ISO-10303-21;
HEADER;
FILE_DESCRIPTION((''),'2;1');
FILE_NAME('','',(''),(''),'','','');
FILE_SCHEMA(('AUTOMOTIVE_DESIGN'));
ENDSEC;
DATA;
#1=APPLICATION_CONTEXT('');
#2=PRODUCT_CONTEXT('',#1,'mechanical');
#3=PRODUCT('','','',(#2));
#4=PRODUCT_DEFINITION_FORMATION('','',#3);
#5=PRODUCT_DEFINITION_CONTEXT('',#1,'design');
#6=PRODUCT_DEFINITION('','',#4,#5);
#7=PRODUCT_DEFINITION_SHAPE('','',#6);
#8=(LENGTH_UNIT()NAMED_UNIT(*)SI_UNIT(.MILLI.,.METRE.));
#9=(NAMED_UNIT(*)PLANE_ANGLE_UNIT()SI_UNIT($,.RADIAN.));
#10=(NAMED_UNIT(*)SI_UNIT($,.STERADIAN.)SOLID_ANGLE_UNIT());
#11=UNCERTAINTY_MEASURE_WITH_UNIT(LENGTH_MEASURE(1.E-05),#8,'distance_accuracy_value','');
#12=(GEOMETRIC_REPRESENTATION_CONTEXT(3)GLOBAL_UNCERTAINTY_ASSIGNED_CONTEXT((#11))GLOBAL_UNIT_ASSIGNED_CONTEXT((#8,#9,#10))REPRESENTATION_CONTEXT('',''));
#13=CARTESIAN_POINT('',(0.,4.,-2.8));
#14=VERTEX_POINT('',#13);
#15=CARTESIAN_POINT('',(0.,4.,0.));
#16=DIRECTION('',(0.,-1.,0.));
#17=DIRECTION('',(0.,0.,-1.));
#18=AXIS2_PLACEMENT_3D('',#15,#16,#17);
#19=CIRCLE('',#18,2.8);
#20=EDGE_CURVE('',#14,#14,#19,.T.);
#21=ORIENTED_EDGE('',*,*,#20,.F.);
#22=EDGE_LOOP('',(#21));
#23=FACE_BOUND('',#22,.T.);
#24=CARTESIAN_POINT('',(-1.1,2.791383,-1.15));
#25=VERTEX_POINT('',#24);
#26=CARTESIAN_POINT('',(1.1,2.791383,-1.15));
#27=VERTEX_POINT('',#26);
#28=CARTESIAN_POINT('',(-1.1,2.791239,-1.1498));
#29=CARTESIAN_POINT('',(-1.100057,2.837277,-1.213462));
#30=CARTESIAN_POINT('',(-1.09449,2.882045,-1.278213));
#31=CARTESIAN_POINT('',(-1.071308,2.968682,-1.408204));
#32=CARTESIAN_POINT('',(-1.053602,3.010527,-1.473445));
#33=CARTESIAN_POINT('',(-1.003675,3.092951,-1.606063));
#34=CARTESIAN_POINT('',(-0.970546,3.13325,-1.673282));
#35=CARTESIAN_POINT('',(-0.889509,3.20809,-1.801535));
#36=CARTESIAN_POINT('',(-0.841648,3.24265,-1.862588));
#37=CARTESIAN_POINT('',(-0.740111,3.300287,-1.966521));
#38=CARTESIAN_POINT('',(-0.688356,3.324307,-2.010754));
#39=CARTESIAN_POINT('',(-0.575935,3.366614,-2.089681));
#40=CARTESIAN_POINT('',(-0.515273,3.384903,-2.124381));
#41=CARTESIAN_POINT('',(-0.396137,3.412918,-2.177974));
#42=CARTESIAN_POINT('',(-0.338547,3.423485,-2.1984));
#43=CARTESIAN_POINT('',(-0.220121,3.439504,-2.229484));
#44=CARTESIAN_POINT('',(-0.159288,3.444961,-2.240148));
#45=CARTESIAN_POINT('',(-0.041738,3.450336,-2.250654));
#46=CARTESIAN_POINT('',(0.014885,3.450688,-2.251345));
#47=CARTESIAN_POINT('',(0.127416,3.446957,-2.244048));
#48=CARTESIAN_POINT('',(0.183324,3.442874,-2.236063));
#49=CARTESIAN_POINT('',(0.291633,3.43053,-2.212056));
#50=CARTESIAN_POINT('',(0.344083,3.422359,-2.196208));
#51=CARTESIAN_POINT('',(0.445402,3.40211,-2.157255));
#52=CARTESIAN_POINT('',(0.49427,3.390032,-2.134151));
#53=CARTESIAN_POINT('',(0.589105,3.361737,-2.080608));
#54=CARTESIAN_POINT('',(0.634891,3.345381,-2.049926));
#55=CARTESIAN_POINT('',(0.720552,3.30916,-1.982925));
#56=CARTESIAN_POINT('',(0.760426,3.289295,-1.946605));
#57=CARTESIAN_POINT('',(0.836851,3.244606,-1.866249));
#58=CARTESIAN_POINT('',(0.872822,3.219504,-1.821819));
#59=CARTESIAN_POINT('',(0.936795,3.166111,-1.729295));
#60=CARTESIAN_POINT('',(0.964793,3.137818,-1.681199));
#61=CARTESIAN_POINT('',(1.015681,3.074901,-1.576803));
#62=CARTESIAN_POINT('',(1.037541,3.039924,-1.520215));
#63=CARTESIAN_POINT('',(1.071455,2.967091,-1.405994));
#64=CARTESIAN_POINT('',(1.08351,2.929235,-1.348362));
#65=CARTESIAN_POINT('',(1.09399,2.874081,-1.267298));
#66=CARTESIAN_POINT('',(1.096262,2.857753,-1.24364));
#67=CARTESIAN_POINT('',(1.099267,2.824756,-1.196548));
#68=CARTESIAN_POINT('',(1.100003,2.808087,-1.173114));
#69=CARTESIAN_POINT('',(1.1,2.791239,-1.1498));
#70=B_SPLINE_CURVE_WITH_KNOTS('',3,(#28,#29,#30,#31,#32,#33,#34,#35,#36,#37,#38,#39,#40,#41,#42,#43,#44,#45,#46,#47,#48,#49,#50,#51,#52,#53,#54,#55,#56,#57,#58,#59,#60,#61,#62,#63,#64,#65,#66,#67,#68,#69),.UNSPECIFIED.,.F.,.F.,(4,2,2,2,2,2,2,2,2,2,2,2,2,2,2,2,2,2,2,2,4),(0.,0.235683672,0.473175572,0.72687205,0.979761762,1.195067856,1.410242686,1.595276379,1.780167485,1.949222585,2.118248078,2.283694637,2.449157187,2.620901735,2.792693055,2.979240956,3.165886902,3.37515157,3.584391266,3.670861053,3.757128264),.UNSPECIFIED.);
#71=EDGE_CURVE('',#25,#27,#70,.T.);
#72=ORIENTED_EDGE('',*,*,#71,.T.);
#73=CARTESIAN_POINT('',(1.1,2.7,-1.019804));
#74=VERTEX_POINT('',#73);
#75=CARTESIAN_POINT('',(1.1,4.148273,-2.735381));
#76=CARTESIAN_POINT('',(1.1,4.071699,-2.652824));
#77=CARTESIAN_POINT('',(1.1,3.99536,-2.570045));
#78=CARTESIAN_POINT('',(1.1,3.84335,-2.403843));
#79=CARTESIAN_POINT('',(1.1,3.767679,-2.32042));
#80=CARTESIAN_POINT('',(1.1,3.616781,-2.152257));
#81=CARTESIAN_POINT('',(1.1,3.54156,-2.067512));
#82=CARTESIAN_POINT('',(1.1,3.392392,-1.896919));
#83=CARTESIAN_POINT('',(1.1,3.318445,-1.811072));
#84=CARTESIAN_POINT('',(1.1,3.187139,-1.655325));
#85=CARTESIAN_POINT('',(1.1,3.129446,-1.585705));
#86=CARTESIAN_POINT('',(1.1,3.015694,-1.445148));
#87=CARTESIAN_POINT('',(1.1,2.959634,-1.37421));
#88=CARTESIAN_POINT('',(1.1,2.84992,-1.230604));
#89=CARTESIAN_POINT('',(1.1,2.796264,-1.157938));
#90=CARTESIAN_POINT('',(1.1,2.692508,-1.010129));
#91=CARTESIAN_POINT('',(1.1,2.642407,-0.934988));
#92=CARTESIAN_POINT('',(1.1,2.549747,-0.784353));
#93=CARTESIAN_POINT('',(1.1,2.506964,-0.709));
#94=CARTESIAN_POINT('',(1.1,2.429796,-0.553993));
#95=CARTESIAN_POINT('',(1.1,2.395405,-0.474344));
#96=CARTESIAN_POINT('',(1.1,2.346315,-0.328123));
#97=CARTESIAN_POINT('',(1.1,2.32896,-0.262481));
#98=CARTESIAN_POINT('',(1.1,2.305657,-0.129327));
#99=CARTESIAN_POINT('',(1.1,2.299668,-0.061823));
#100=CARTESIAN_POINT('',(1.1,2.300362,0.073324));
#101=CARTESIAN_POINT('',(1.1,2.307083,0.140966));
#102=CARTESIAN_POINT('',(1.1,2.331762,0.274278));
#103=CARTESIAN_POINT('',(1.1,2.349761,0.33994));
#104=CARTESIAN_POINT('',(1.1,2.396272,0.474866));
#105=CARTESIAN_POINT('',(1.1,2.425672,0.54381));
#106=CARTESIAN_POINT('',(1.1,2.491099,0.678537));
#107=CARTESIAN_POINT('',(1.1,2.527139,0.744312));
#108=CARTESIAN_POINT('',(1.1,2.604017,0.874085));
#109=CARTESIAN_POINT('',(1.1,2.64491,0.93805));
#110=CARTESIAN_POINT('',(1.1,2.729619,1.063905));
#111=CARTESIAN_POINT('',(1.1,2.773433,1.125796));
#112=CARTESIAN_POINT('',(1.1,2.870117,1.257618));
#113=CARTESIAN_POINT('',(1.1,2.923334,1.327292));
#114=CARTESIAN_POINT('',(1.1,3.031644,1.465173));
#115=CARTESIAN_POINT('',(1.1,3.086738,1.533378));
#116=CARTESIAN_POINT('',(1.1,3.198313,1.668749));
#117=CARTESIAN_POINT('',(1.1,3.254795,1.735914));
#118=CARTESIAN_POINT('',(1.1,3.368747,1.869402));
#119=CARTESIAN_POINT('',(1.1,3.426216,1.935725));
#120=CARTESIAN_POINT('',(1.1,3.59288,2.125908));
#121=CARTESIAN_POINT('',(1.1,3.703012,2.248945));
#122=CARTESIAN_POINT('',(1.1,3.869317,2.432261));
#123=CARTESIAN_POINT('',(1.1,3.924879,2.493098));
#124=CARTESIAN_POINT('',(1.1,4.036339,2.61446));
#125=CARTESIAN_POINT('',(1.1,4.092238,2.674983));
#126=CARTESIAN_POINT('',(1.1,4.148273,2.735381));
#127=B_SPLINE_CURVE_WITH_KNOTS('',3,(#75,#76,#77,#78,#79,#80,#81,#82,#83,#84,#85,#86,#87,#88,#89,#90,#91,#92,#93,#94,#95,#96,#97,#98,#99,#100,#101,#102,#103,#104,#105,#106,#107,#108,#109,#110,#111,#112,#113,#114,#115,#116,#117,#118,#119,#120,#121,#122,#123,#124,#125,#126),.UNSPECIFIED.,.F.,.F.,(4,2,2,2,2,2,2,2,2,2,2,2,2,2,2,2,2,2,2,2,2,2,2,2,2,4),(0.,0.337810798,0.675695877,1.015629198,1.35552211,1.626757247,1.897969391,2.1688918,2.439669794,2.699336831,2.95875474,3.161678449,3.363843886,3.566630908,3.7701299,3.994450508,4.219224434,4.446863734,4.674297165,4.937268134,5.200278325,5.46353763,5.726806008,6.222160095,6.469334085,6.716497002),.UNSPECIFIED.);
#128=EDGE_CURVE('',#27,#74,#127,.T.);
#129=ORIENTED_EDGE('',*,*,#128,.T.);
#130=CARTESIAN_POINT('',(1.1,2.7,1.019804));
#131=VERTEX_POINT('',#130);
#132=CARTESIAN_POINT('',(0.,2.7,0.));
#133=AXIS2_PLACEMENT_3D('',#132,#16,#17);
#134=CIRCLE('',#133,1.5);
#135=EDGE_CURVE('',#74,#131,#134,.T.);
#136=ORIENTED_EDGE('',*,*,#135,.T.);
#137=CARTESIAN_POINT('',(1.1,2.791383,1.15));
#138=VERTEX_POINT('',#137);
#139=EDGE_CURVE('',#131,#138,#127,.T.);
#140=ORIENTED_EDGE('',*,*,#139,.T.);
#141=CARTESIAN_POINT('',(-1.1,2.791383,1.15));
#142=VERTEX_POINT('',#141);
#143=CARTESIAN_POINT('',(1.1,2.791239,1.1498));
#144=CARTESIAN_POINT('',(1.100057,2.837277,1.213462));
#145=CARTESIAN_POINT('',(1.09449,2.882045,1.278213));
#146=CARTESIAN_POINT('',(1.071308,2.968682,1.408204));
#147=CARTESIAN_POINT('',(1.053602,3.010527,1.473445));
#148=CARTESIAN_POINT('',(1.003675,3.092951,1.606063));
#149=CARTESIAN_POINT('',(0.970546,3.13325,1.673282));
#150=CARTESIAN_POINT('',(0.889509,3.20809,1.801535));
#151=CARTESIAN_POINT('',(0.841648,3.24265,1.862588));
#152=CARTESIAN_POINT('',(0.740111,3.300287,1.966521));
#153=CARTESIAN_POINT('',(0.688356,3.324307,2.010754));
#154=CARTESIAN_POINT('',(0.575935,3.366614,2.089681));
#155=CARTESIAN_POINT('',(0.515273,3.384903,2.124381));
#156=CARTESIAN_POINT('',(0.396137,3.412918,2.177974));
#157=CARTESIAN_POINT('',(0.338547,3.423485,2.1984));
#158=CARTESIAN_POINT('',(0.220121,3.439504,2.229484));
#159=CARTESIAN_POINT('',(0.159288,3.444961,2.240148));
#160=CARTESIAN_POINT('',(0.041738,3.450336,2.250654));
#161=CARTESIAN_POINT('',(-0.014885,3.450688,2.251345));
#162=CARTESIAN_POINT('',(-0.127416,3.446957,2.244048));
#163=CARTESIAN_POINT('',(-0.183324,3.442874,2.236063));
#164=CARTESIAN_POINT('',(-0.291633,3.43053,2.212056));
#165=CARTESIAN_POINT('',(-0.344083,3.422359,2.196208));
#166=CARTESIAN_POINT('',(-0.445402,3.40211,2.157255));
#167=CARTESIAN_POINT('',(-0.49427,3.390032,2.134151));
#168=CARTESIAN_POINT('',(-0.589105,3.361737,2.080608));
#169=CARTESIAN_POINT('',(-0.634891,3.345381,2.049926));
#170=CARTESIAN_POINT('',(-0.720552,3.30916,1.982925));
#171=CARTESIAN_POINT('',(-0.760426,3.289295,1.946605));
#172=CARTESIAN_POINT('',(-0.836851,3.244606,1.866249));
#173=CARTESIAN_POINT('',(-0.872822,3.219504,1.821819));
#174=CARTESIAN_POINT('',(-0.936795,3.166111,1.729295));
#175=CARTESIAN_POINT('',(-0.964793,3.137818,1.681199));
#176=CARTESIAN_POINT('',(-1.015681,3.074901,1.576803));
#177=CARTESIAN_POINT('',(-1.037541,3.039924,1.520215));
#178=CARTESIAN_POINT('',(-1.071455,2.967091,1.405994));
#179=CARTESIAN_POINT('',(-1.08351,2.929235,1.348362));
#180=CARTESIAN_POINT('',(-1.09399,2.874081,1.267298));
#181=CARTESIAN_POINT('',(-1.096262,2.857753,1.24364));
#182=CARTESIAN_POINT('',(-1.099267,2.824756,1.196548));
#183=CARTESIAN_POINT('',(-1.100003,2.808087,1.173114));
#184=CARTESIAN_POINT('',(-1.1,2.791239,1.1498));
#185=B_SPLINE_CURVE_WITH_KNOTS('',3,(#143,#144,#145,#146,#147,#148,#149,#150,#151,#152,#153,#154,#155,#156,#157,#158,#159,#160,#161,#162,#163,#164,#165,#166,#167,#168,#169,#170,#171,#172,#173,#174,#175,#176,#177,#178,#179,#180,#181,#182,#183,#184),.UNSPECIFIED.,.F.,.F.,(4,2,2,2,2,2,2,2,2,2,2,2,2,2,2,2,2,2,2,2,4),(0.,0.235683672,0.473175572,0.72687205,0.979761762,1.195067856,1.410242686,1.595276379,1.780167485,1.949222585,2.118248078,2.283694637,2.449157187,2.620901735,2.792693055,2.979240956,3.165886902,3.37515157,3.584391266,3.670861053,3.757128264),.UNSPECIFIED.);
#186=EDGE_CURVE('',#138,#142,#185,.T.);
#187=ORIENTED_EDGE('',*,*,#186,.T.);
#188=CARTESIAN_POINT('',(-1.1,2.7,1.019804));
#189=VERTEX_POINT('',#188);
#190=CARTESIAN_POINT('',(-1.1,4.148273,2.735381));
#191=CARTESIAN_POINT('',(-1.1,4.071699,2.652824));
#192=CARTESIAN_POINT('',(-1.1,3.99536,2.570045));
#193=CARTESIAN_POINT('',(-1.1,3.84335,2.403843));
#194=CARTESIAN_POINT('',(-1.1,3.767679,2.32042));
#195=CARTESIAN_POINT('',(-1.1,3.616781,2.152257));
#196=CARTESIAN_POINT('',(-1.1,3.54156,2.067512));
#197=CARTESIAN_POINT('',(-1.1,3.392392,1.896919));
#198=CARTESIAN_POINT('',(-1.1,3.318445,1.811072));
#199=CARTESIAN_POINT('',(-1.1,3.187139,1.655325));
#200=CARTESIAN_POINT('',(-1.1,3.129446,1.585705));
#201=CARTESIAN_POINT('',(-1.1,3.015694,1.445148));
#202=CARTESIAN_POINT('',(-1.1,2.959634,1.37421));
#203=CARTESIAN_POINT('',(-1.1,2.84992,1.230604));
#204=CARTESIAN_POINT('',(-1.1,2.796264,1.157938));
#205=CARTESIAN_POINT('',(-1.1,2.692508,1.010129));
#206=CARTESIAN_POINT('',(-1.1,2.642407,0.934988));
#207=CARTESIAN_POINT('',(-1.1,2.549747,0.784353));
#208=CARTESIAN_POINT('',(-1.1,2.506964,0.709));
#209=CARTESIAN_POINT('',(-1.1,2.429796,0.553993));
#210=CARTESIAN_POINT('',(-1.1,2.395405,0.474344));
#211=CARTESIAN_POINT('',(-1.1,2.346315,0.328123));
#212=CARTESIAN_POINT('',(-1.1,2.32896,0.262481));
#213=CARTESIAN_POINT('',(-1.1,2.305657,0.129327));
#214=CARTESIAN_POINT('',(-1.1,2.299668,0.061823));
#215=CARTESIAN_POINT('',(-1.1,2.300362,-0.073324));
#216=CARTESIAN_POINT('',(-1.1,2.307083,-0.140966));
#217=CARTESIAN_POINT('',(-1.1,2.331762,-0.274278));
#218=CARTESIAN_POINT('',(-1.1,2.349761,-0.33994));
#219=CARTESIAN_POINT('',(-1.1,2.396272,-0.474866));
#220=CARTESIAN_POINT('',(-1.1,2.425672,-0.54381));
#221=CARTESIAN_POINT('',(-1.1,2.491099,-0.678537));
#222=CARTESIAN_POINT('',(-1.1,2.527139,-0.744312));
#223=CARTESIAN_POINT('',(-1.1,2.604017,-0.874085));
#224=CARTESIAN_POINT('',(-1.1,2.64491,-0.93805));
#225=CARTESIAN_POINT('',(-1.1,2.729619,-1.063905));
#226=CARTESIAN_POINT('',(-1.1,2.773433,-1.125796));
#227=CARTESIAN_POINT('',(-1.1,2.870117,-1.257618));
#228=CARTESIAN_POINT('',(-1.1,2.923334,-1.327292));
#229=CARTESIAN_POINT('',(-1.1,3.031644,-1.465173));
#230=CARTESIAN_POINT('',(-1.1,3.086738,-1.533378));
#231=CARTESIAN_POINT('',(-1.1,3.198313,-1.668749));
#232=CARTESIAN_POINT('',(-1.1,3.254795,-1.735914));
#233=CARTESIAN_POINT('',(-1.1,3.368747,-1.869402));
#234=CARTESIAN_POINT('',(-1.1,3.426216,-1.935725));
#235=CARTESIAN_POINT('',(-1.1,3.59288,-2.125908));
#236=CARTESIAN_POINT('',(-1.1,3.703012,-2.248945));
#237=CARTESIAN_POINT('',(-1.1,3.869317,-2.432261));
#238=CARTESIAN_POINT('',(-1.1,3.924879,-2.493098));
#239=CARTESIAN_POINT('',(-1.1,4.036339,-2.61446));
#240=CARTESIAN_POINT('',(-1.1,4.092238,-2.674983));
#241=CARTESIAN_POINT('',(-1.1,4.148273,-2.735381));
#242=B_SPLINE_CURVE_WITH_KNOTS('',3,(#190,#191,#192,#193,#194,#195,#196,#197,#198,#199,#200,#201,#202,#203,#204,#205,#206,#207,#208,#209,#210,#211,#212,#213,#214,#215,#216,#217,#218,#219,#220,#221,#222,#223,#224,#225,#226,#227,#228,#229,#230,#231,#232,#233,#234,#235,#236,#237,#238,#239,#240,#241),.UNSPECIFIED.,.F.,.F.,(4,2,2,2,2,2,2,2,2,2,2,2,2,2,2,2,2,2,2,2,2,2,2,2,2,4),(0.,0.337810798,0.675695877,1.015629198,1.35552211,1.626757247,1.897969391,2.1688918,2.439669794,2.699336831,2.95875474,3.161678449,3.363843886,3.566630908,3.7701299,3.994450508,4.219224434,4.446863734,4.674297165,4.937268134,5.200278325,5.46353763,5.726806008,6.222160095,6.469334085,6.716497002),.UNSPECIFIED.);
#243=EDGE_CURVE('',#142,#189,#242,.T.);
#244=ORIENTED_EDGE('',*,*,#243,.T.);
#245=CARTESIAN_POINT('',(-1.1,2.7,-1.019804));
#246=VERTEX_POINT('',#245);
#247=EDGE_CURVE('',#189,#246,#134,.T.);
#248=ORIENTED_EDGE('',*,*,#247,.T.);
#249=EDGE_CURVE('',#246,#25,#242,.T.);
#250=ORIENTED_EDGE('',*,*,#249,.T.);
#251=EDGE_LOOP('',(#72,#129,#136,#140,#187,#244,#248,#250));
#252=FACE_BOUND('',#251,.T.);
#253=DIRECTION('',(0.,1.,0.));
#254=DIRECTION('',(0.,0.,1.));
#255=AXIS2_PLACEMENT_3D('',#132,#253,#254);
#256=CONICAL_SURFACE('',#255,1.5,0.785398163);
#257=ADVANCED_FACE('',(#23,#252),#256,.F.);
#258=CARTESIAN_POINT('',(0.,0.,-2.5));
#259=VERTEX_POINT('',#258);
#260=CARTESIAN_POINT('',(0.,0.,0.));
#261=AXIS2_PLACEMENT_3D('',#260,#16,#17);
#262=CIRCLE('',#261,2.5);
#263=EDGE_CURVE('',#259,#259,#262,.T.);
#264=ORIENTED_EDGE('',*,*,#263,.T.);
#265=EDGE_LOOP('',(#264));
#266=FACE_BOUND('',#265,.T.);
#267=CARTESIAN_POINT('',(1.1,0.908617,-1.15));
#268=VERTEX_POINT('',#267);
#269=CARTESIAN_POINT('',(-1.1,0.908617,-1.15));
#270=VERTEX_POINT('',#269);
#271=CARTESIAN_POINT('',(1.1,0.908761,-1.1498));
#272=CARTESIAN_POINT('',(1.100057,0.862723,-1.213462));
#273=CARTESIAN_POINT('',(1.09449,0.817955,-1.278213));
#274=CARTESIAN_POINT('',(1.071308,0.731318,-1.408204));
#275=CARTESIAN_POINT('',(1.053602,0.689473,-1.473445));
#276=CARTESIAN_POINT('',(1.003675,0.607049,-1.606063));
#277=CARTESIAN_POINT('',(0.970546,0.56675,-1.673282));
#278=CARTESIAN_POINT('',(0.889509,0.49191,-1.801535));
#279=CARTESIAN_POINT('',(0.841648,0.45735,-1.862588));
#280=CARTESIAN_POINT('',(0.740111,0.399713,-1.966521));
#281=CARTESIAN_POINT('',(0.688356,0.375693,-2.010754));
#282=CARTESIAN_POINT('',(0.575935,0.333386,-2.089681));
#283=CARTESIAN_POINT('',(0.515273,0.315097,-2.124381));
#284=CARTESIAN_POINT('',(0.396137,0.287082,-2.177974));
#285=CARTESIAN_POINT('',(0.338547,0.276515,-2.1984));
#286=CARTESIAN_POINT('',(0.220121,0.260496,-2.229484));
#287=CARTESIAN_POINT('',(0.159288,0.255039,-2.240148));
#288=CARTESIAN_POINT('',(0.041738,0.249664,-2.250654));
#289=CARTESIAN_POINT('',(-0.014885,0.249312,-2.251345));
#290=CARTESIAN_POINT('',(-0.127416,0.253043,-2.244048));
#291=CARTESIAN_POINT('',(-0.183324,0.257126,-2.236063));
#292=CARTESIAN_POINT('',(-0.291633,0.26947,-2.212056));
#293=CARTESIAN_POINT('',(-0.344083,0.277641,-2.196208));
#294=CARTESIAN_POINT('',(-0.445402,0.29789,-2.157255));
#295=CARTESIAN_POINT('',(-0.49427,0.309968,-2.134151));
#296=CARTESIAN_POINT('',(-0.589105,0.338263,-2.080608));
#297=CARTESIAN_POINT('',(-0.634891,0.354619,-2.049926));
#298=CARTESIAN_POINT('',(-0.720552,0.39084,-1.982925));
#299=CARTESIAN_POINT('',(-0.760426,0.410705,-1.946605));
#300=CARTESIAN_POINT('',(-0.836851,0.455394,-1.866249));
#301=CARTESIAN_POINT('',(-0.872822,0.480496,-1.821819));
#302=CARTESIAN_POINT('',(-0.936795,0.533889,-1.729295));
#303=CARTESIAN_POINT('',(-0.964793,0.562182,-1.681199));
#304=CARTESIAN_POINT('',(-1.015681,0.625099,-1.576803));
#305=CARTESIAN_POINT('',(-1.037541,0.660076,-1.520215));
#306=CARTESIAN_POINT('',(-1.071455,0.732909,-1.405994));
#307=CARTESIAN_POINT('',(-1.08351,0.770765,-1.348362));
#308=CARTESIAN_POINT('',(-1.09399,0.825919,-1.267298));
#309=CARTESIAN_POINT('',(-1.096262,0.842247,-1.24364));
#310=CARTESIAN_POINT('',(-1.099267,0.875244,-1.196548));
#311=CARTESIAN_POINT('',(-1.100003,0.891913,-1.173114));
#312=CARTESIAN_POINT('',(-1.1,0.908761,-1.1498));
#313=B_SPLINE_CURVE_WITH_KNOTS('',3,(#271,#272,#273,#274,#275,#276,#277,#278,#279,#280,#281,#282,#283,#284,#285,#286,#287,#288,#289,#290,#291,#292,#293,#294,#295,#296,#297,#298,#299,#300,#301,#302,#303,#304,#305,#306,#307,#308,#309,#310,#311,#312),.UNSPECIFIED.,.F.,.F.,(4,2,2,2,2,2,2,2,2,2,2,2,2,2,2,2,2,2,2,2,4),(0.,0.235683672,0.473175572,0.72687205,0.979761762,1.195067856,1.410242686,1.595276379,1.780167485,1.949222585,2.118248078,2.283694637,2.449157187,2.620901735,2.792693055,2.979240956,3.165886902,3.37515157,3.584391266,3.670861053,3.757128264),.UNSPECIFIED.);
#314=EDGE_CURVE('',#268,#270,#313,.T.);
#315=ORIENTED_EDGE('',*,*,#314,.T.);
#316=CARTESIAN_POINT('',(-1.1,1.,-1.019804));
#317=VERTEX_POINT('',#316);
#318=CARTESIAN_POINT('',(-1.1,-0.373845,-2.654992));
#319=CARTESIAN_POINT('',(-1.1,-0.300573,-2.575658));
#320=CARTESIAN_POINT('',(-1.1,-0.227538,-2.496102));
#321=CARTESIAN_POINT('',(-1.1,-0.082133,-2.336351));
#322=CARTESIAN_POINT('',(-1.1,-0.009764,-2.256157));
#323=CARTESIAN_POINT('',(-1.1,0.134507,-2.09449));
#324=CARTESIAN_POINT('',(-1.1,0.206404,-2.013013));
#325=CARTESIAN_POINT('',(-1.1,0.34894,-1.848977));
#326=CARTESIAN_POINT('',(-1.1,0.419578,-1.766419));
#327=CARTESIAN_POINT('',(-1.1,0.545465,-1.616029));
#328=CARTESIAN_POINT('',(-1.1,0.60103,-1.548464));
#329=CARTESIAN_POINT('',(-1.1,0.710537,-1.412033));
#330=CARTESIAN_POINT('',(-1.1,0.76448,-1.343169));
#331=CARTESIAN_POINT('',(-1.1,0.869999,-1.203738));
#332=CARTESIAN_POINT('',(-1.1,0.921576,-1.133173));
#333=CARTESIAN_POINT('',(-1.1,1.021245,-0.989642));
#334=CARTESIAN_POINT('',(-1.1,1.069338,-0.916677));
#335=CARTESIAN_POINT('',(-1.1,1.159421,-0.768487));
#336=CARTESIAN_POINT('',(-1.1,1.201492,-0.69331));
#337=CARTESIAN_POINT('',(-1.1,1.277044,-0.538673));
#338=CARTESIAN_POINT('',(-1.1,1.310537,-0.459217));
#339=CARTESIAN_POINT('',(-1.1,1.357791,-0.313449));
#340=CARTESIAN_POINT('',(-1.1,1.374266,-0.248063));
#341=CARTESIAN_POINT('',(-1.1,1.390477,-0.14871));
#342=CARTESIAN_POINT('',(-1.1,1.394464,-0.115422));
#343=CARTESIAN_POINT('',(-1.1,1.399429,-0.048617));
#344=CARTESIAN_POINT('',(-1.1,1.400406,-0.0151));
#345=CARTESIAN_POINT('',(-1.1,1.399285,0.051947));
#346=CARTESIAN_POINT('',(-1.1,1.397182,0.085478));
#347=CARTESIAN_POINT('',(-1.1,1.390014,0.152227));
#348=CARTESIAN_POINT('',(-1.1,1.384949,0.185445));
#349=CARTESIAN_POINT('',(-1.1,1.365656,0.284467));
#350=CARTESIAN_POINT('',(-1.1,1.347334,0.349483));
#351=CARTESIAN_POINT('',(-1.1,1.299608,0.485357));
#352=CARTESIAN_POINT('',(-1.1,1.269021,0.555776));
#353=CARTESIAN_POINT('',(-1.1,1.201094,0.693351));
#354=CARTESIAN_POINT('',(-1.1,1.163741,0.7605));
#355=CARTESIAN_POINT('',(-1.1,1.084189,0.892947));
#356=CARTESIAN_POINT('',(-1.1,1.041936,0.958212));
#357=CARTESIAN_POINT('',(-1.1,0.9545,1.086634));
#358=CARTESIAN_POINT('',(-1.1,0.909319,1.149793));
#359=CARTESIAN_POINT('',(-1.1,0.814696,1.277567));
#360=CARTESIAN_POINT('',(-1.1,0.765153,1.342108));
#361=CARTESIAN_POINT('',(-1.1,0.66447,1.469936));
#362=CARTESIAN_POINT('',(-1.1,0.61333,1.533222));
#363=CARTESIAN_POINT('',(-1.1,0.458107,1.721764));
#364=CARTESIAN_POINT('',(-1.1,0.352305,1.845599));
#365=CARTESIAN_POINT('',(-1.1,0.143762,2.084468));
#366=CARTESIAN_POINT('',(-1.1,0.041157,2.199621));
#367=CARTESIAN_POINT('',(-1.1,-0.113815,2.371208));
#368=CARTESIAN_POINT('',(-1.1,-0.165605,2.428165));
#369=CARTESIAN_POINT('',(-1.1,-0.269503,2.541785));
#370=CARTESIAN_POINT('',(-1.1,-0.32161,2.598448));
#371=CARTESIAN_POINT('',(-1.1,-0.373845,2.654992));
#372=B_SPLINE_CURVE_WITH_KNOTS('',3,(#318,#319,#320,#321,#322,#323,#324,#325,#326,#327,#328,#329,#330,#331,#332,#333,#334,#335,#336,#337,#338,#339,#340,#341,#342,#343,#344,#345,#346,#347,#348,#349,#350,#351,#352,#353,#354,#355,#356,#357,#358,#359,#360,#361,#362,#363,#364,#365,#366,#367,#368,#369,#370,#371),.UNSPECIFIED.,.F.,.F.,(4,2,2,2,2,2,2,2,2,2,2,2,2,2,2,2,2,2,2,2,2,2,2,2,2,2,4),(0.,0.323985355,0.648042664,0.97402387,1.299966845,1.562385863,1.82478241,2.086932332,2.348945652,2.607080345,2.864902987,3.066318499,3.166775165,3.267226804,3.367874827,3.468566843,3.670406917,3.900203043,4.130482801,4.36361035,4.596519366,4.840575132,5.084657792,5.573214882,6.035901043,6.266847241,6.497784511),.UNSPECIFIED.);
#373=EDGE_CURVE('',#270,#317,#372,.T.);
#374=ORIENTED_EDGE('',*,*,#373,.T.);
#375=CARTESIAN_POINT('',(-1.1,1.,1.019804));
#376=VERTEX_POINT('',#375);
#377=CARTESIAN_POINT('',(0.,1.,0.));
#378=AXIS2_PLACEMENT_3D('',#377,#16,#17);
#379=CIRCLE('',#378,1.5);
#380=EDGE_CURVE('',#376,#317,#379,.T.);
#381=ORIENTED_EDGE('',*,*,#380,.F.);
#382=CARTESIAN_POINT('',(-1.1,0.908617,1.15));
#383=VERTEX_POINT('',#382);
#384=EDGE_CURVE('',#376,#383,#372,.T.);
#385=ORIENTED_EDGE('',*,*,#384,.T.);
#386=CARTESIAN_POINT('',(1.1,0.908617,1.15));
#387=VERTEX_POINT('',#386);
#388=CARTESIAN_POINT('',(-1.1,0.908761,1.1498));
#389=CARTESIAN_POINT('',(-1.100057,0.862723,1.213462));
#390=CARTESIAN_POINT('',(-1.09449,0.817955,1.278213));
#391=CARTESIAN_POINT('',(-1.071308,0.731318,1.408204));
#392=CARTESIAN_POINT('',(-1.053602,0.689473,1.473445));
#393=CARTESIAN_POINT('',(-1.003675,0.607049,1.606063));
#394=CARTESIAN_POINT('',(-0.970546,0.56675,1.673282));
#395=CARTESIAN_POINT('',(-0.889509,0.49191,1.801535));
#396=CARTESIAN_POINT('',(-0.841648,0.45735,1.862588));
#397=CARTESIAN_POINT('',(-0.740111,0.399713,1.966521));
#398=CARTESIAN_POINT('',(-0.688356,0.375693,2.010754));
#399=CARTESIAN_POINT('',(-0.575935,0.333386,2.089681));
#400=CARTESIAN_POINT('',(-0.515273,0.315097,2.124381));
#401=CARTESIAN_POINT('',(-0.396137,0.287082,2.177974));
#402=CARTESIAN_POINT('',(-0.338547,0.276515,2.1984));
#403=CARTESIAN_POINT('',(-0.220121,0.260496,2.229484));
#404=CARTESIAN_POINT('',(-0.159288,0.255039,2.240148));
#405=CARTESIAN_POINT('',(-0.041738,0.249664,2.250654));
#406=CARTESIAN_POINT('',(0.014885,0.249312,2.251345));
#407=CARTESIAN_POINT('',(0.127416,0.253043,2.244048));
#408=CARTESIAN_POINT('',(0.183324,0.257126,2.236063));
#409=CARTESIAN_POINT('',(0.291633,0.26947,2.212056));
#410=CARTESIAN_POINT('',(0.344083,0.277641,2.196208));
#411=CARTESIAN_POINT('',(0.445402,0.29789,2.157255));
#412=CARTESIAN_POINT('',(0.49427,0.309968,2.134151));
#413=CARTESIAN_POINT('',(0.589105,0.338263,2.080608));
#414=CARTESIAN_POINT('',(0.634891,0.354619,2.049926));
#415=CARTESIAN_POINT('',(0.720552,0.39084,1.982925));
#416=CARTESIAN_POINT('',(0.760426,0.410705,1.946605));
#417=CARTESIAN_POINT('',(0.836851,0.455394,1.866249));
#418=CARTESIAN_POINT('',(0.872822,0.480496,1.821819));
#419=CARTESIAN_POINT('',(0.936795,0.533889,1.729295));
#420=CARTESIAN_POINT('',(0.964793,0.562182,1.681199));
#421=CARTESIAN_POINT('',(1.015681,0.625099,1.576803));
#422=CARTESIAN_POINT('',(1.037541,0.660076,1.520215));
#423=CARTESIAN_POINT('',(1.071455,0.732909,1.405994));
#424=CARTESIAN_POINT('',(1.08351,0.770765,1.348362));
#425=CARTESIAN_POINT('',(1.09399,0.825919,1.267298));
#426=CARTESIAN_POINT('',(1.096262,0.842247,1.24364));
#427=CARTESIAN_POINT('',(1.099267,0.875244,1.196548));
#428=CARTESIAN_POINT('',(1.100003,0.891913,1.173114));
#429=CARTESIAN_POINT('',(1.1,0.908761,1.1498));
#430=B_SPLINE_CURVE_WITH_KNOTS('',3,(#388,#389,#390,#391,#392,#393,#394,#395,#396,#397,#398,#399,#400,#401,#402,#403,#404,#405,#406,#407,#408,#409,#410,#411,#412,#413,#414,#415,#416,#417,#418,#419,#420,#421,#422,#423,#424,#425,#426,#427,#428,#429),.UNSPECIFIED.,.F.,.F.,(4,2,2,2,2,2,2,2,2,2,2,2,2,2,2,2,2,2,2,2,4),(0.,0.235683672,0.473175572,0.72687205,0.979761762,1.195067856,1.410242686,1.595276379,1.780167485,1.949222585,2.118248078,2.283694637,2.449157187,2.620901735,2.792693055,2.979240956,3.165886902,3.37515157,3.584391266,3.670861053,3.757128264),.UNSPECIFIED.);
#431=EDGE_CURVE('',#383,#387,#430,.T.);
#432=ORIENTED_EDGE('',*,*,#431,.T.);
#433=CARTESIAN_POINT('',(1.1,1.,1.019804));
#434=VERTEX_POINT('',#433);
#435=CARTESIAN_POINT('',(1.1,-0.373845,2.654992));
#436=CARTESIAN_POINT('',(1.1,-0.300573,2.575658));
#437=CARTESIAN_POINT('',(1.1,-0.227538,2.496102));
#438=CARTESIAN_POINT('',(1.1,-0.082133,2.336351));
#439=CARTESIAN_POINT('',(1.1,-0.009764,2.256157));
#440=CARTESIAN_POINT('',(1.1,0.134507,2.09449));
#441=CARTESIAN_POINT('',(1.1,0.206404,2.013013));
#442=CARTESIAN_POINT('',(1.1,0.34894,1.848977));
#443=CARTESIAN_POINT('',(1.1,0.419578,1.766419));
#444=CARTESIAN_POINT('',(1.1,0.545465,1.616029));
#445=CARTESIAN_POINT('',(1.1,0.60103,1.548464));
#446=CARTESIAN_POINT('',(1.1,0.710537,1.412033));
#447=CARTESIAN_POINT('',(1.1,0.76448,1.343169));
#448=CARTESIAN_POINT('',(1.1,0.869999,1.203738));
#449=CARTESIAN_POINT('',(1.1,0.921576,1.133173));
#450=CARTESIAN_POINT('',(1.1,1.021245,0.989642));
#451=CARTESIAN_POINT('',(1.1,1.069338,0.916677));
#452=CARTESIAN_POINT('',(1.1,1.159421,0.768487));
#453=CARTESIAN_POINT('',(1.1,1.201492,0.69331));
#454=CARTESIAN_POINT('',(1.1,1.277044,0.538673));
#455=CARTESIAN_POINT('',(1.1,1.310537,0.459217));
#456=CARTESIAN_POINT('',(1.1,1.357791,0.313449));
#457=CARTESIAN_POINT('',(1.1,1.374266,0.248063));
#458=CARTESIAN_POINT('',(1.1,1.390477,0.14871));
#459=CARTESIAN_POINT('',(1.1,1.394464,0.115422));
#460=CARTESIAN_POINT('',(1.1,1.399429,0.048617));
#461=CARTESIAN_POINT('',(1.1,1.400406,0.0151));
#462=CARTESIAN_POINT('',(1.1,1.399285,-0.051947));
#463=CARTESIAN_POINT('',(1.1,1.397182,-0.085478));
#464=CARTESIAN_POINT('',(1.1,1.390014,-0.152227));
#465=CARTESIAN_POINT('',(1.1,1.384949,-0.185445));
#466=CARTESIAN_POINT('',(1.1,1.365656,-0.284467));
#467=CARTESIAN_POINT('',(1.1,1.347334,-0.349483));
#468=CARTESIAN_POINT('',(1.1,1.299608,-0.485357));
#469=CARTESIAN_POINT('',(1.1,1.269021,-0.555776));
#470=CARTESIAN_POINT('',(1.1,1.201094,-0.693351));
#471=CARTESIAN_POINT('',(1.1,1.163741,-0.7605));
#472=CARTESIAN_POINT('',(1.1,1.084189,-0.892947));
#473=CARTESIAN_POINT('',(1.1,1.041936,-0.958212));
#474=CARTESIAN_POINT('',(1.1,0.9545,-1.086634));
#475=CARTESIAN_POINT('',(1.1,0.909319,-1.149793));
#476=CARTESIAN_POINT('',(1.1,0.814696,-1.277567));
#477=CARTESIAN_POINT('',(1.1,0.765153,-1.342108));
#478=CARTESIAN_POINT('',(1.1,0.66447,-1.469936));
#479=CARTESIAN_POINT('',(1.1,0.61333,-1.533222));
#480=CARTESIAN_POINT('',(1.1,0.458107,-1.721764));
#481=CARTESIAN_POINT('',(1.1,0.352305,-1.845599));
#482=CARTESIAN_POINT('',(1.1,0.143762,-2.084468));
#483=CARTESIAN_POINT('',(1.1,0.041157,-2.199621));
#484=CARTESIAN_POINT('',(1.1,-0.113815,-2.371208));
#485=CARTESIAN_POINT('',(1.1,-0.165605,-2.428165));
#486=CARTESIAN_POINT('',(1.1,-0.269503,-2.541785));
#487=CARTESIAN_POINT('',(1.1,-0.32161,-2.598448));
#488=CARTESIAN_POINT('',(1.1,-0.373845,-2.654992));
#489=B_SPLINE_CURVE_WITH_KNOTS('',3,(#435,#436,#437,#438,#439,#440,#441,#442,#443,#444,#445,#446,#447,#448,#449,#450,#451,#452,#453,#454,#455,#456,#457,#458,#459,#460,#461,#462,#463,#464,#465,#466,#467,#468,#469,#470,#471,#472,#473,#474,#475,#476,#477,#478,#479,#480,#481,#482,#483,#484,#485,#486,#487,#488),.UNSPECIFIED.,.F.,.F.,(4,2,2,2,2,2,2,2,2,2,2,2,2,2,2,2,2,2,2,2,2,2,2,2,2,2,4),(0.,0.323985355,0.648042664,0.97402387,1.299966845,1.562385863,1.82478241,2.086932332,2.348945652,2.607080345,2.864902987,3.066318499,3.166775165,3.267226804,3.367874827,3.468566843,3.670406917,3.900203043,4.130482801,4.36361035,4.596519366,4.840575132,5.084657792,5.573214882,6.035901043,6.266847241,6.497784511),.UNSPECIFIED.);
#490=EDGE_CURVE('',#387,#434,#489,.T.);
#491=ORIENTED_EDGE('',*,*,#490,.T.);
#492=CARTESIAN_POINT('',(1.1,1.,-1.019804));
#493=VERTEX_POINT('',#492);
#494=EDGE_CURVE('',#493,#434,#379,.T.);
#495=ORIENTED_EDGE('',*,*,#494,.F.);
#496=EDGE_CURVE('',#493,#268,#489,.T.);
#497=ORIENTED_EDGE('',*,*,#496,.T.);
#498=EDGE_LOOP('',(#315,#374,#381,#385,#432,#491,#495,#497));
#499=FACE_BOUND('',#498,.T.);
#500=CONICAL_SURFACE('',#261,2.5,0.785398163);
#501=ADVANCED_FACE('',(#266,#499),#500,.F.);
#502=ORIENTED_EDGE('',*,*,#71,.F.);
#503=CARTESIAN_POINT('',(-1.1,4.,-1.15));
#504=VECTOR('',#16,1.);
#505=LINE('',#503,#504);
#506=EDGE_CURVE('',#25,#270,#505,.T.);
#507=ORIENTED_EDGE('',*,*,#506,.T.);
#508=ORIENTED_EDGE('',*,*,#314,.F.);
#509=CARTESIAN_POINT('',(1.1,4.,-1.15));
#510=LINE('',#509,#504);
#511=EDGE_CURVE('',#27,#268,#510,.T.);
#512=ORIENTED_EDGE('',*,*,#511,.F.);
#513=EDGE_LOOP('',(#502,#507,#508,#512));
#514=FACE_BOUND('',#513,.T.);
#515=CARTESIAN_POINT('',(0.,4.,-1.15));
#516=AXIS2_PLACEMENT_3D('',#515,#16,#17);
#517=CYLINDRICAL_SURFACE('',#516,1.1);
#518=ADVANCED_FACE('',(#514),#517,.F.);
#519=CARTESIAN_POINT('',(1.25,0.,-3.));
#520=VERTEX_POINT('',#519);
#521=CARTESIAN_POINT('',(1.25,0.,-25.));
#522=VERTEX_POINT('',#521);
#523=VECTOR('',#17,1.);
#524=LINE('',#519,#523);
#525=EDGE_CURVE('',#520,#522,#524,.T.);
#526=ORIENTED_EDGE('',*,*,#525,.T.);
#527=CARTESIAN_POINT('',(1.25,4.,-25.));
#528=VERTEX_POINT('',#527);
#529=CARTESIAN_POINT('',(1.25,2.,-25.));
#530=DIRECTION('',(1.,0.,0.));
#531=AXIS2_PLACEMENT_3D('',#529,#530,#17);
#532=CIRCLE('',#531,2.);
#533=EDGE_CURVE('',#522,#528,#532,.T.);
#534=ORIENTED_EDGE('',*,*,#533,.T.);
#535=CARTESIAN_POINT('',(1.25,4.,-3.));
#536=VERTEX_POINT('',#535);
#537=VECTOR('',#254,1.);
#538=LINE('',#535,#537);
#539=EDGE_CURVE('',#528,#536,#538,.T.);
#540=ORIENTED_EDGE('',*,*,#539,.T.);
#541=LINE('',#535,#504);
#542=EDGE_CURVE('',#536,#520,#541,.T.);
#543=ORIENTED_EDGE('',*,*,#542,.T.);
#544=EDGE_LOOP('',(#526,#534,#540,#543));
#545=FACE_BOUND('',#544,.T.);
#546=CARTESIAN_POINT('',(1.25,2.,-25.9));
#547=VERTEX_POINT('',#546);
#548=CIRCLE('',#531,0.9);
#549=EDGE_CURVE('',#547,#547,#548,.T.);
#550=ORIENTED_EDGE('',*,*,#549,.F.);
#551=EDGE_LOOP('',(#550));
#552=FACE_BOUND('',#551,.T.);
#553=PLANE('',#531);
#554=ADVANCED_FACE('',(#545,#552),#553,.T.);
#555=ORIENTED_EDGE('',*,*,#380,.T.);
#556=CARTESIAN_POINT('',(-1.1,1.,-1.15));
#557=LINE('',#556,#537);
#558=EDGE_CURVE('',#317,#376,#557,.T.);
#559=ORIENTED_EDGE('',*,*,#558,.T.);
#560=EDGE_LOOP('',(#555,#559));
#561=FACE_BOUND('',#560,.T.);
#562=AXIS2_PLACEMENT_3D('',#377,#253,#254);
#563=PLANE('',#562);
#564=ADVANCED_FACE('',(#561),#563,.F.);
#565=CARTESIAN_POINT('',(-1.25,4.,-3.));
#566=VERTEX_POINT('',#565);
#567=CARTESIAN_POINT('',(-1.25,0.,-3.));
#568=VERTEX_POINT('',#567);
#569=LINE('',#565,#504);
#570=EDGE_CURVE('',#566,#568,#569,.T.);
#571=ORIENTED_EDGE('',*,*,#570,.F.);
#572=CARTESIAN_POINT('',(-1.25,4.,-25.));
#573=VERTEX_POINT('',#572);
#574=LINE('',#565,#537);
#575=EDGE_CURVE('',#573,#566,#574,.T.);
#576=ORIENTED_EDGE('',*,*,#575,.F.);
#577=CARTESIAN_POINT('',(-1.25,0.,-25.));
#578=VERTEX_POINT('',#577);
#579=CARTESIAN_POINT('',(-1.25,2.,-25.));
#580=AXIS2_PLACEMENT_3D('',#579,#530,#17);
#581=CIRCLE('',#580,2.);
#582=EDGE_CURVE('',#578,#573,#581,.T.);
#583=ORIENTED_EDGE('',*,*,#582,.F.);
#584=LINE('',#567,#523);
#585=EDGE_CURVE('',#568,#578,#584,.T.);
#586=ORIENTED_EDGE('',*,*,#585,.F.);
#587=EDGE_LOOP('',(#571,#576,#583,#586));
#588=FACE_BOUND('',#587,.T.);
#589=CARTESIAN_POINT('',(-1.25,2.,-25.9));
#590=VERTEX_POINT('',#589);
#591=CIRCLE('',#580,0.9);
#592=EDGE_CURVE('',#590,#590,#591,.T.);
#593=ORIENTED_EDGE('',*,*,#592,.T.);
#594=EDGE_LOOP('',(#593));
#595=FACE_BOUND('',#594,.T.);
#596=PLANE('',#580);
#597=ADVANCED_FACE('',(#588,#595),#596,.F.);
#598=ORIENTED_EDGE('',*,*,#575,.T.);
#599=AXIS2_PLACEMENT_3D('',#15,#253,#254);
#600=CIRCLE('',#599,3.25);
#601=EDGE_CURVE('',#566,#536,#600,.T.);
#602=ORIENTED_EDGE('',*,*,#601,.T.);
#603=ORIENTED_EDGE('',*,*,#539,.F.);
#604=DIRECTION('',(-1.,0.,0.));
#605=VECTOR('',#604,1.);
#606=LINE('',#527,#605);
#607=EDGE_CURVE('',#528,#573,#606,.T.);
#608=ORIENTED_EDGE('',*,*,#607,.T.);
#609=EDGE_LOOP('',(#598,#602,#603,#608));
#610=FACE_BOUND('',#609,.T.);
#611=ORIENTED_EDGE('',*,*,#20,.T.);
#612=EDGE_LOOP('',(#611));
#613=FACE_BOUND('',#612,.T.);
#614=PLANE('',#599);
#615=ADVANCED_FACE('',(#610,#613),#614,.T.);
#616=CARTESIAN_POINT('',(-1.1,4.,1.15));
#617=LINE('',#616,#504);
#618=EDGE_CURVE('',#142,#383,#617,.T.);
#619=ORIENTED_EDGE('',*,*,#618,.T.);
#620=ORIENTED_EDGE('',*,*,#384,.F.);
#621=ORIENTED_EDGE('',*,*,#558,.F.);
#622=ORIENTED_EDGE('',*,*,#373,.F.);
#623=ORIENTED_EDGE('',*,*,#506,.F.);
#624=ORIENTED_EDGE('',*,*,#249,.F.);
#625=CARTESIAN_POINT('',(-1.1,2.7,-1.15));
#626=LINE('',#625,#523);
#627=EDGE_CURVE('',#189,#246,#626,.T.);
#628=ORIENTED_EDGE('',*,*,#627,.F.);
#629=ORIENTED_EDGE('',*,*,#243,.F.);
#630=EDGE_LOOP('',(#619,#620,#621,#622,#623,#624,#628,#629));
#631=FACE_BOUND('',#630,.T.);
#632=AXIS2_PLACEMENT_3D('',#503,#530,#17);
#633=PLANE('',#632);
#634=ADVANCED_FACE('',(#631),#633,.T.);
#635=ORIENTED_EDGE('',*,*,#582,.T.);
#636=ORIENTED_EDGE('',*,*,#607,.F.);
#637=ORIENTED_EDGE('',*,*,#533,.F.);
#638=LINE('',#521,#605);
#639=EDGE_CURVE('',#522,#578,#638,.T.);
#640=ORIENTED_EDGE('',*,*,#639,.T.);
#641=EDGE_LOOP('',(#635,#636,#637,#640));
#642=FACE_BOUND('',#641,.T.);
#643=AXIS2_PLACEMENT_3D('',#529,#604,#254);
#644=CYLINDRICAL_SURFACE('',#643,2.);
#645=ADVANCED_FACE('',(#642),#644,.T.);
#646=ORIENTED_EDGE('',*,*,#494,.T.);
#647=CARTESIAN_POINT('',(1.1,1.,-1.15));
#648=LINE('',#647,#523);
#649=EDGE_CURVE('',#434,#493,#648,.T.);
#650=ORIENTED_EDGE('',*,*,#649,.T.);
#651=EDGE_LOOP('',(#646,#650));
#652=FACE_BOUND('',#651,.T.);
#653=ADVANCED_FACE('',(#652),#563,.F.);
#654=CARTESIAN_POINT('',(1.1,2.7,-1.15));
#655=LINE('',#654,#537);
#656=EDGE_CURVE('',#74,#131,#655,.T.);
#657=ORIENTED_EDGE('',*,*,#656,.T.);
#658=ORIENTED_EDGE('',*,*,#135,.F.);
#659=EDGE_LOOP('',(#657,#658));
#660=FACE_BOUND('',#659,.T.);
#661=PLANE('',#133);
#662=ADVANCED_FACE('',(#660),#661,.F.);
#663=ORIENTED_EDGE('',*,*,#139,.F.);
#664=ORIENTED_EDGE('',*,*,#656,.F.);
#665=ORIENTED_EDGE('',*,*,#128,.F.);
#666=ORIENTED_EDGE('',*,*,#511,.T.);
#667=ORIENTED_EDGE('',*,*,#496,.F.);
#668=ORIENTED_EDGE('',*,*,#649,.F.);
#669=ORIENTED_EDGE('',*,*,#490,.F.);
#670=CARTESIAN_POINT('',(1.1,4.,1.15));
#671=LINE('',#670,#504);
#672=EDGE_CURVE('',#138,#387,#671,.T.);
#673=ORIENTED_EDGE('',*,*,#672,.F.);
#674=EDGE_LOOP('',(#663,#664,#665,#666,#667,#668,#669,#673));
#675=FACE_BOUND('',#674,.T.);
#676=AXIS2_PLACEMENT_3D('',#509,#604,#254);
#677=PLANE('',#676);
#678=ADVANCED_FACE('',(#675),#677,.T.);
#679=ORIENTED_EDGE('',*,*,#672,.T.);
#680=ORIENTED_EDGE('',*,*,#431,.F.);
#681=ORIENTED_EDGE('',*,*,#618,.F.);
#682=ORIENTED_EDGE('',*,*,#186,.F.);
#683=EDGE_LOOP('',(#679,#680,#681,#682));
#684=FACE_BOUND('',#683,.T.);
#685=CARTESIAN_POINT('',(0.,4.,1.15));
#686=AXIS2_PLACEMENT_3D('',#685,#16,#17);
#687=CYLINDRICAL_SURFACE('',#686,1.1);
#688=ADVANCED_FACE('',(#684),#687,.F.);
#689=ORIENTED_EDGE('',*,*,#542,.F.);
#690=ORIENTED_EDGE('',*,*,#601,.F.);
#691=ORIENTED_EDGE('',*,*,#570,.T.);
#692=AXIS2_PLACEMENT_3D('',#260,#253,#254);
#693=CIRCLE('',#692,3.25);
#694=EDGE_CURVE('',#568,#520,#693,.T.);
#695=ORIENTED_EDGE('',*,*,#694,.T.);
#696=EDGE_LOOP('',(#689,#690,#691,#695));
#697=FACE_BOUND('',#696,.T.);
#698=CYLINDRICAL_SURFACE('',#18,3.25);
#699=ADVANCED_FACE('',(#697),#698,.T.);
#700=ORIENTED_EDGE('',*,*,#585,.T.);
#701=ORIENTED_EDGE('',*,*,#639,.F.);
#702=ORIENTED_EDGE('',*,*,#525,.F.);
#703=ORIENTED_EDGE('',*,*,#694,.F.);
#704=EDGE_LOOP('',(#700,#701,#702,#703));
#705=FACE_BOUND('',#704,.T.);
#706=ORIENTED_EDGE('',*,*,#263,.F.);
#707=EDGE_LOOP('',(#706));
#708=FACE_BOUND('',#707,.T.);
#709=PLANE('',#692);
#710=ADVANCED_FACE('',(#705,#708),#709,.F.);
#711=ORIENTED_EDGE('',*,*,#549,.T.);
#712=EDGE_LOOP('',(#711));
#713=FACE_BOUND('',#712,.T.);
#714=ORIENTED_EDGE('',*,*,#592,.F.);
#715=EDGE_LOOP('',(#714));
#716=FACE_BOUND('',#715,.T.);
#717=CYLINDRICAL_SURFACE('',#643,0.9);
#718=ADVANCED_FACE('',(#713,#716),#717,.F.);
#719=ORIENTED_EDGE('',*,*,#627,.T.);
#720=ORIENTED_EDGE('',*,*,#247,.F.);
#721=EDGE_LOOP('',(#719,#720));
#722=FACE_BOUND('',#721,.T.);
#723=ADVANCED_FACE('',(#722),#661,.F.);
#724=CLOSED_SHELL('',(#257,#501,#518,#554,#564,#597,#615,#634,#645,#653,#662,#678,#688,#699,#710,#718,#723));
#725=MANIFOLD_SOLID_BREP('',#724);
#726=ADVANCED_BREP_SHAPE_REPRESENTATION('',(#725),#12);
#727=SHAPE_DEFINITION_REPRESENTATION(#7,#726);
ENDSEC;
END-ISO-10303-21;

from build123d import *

# Parameters (mm, degrees)
SKETCH1_R      = 3.25
EXTRUDE1_DEPTH = 4
SKETCH2_R      = 0.9
EXTRUDE2_DEPTH = 1.25


with BuildPart() as part:
    # Sketch1 → Extrude1 (new body)
    with BuildSketch(Plane(origin=(0, 0, 0), x_dir=(1, 0, 0), z_dir=(0, 1, 0))):
        with Locations(Location((0, 0, 0), (0, 0, 270))):  # turned: the seam where the file's is
            Circle(SKETCH1_R)
        with BuildLine():
            Line((1.1, 1.15), (1.1, -1.15))
            ThreePointArc((1.1, -1.15), (0, -2.25), (-1.1, -1.15))
            Line((-1.1, -1.15), (-1.1, 1.15))
            ThreePointArc((-1.1, 1.15), (0, 2.25), (1.1, 1.15))
        make_face(mode=Mode.SUBTRACT)
    extrude(amount=EXTRUDE1_DEPTH)

    # Sketch2 → Extrude2 (add, symmetric)
    with BuildSketch(Plane(origin=(0, 0, 0), x_dir=(0, 0, -1), z_dir=(1, 0, 0))):
        with BuildLine():
            Line((3, 4), (3, 0))
            Line((3, 0), (25, 0))
            ThreePointArc((25, 0), (27, 2), (25, 4))
            Line((25, 4), (3, 4))
        make_face()
        with Locations((25, 2)):
            Circle(SKETCH2_R, mode=Mode.SUBTRACT)
    extrude(amount=EXTRUDE2_DEPTH, both=True)

    # Sketch4 → Cut-Revolve1 (revolve, cut)
    with BuildSketch(Plane(origin=(0, 0, 0), x_dir=(0, 0, -1), z_dir=(1, 0, 0))):
        Polygon((0, 2.7), (1.5, 2.7), (2.8, 4), (0, 4), align=None)
        Polygon((0, 1), (1.5, 1), (2.5, 0), (0, 0), align=None)
    revolve(axis=Axis((0, 0, 0), (0, 1, 0)), mode=Mode.SUBTRACT)


solid = part.part
